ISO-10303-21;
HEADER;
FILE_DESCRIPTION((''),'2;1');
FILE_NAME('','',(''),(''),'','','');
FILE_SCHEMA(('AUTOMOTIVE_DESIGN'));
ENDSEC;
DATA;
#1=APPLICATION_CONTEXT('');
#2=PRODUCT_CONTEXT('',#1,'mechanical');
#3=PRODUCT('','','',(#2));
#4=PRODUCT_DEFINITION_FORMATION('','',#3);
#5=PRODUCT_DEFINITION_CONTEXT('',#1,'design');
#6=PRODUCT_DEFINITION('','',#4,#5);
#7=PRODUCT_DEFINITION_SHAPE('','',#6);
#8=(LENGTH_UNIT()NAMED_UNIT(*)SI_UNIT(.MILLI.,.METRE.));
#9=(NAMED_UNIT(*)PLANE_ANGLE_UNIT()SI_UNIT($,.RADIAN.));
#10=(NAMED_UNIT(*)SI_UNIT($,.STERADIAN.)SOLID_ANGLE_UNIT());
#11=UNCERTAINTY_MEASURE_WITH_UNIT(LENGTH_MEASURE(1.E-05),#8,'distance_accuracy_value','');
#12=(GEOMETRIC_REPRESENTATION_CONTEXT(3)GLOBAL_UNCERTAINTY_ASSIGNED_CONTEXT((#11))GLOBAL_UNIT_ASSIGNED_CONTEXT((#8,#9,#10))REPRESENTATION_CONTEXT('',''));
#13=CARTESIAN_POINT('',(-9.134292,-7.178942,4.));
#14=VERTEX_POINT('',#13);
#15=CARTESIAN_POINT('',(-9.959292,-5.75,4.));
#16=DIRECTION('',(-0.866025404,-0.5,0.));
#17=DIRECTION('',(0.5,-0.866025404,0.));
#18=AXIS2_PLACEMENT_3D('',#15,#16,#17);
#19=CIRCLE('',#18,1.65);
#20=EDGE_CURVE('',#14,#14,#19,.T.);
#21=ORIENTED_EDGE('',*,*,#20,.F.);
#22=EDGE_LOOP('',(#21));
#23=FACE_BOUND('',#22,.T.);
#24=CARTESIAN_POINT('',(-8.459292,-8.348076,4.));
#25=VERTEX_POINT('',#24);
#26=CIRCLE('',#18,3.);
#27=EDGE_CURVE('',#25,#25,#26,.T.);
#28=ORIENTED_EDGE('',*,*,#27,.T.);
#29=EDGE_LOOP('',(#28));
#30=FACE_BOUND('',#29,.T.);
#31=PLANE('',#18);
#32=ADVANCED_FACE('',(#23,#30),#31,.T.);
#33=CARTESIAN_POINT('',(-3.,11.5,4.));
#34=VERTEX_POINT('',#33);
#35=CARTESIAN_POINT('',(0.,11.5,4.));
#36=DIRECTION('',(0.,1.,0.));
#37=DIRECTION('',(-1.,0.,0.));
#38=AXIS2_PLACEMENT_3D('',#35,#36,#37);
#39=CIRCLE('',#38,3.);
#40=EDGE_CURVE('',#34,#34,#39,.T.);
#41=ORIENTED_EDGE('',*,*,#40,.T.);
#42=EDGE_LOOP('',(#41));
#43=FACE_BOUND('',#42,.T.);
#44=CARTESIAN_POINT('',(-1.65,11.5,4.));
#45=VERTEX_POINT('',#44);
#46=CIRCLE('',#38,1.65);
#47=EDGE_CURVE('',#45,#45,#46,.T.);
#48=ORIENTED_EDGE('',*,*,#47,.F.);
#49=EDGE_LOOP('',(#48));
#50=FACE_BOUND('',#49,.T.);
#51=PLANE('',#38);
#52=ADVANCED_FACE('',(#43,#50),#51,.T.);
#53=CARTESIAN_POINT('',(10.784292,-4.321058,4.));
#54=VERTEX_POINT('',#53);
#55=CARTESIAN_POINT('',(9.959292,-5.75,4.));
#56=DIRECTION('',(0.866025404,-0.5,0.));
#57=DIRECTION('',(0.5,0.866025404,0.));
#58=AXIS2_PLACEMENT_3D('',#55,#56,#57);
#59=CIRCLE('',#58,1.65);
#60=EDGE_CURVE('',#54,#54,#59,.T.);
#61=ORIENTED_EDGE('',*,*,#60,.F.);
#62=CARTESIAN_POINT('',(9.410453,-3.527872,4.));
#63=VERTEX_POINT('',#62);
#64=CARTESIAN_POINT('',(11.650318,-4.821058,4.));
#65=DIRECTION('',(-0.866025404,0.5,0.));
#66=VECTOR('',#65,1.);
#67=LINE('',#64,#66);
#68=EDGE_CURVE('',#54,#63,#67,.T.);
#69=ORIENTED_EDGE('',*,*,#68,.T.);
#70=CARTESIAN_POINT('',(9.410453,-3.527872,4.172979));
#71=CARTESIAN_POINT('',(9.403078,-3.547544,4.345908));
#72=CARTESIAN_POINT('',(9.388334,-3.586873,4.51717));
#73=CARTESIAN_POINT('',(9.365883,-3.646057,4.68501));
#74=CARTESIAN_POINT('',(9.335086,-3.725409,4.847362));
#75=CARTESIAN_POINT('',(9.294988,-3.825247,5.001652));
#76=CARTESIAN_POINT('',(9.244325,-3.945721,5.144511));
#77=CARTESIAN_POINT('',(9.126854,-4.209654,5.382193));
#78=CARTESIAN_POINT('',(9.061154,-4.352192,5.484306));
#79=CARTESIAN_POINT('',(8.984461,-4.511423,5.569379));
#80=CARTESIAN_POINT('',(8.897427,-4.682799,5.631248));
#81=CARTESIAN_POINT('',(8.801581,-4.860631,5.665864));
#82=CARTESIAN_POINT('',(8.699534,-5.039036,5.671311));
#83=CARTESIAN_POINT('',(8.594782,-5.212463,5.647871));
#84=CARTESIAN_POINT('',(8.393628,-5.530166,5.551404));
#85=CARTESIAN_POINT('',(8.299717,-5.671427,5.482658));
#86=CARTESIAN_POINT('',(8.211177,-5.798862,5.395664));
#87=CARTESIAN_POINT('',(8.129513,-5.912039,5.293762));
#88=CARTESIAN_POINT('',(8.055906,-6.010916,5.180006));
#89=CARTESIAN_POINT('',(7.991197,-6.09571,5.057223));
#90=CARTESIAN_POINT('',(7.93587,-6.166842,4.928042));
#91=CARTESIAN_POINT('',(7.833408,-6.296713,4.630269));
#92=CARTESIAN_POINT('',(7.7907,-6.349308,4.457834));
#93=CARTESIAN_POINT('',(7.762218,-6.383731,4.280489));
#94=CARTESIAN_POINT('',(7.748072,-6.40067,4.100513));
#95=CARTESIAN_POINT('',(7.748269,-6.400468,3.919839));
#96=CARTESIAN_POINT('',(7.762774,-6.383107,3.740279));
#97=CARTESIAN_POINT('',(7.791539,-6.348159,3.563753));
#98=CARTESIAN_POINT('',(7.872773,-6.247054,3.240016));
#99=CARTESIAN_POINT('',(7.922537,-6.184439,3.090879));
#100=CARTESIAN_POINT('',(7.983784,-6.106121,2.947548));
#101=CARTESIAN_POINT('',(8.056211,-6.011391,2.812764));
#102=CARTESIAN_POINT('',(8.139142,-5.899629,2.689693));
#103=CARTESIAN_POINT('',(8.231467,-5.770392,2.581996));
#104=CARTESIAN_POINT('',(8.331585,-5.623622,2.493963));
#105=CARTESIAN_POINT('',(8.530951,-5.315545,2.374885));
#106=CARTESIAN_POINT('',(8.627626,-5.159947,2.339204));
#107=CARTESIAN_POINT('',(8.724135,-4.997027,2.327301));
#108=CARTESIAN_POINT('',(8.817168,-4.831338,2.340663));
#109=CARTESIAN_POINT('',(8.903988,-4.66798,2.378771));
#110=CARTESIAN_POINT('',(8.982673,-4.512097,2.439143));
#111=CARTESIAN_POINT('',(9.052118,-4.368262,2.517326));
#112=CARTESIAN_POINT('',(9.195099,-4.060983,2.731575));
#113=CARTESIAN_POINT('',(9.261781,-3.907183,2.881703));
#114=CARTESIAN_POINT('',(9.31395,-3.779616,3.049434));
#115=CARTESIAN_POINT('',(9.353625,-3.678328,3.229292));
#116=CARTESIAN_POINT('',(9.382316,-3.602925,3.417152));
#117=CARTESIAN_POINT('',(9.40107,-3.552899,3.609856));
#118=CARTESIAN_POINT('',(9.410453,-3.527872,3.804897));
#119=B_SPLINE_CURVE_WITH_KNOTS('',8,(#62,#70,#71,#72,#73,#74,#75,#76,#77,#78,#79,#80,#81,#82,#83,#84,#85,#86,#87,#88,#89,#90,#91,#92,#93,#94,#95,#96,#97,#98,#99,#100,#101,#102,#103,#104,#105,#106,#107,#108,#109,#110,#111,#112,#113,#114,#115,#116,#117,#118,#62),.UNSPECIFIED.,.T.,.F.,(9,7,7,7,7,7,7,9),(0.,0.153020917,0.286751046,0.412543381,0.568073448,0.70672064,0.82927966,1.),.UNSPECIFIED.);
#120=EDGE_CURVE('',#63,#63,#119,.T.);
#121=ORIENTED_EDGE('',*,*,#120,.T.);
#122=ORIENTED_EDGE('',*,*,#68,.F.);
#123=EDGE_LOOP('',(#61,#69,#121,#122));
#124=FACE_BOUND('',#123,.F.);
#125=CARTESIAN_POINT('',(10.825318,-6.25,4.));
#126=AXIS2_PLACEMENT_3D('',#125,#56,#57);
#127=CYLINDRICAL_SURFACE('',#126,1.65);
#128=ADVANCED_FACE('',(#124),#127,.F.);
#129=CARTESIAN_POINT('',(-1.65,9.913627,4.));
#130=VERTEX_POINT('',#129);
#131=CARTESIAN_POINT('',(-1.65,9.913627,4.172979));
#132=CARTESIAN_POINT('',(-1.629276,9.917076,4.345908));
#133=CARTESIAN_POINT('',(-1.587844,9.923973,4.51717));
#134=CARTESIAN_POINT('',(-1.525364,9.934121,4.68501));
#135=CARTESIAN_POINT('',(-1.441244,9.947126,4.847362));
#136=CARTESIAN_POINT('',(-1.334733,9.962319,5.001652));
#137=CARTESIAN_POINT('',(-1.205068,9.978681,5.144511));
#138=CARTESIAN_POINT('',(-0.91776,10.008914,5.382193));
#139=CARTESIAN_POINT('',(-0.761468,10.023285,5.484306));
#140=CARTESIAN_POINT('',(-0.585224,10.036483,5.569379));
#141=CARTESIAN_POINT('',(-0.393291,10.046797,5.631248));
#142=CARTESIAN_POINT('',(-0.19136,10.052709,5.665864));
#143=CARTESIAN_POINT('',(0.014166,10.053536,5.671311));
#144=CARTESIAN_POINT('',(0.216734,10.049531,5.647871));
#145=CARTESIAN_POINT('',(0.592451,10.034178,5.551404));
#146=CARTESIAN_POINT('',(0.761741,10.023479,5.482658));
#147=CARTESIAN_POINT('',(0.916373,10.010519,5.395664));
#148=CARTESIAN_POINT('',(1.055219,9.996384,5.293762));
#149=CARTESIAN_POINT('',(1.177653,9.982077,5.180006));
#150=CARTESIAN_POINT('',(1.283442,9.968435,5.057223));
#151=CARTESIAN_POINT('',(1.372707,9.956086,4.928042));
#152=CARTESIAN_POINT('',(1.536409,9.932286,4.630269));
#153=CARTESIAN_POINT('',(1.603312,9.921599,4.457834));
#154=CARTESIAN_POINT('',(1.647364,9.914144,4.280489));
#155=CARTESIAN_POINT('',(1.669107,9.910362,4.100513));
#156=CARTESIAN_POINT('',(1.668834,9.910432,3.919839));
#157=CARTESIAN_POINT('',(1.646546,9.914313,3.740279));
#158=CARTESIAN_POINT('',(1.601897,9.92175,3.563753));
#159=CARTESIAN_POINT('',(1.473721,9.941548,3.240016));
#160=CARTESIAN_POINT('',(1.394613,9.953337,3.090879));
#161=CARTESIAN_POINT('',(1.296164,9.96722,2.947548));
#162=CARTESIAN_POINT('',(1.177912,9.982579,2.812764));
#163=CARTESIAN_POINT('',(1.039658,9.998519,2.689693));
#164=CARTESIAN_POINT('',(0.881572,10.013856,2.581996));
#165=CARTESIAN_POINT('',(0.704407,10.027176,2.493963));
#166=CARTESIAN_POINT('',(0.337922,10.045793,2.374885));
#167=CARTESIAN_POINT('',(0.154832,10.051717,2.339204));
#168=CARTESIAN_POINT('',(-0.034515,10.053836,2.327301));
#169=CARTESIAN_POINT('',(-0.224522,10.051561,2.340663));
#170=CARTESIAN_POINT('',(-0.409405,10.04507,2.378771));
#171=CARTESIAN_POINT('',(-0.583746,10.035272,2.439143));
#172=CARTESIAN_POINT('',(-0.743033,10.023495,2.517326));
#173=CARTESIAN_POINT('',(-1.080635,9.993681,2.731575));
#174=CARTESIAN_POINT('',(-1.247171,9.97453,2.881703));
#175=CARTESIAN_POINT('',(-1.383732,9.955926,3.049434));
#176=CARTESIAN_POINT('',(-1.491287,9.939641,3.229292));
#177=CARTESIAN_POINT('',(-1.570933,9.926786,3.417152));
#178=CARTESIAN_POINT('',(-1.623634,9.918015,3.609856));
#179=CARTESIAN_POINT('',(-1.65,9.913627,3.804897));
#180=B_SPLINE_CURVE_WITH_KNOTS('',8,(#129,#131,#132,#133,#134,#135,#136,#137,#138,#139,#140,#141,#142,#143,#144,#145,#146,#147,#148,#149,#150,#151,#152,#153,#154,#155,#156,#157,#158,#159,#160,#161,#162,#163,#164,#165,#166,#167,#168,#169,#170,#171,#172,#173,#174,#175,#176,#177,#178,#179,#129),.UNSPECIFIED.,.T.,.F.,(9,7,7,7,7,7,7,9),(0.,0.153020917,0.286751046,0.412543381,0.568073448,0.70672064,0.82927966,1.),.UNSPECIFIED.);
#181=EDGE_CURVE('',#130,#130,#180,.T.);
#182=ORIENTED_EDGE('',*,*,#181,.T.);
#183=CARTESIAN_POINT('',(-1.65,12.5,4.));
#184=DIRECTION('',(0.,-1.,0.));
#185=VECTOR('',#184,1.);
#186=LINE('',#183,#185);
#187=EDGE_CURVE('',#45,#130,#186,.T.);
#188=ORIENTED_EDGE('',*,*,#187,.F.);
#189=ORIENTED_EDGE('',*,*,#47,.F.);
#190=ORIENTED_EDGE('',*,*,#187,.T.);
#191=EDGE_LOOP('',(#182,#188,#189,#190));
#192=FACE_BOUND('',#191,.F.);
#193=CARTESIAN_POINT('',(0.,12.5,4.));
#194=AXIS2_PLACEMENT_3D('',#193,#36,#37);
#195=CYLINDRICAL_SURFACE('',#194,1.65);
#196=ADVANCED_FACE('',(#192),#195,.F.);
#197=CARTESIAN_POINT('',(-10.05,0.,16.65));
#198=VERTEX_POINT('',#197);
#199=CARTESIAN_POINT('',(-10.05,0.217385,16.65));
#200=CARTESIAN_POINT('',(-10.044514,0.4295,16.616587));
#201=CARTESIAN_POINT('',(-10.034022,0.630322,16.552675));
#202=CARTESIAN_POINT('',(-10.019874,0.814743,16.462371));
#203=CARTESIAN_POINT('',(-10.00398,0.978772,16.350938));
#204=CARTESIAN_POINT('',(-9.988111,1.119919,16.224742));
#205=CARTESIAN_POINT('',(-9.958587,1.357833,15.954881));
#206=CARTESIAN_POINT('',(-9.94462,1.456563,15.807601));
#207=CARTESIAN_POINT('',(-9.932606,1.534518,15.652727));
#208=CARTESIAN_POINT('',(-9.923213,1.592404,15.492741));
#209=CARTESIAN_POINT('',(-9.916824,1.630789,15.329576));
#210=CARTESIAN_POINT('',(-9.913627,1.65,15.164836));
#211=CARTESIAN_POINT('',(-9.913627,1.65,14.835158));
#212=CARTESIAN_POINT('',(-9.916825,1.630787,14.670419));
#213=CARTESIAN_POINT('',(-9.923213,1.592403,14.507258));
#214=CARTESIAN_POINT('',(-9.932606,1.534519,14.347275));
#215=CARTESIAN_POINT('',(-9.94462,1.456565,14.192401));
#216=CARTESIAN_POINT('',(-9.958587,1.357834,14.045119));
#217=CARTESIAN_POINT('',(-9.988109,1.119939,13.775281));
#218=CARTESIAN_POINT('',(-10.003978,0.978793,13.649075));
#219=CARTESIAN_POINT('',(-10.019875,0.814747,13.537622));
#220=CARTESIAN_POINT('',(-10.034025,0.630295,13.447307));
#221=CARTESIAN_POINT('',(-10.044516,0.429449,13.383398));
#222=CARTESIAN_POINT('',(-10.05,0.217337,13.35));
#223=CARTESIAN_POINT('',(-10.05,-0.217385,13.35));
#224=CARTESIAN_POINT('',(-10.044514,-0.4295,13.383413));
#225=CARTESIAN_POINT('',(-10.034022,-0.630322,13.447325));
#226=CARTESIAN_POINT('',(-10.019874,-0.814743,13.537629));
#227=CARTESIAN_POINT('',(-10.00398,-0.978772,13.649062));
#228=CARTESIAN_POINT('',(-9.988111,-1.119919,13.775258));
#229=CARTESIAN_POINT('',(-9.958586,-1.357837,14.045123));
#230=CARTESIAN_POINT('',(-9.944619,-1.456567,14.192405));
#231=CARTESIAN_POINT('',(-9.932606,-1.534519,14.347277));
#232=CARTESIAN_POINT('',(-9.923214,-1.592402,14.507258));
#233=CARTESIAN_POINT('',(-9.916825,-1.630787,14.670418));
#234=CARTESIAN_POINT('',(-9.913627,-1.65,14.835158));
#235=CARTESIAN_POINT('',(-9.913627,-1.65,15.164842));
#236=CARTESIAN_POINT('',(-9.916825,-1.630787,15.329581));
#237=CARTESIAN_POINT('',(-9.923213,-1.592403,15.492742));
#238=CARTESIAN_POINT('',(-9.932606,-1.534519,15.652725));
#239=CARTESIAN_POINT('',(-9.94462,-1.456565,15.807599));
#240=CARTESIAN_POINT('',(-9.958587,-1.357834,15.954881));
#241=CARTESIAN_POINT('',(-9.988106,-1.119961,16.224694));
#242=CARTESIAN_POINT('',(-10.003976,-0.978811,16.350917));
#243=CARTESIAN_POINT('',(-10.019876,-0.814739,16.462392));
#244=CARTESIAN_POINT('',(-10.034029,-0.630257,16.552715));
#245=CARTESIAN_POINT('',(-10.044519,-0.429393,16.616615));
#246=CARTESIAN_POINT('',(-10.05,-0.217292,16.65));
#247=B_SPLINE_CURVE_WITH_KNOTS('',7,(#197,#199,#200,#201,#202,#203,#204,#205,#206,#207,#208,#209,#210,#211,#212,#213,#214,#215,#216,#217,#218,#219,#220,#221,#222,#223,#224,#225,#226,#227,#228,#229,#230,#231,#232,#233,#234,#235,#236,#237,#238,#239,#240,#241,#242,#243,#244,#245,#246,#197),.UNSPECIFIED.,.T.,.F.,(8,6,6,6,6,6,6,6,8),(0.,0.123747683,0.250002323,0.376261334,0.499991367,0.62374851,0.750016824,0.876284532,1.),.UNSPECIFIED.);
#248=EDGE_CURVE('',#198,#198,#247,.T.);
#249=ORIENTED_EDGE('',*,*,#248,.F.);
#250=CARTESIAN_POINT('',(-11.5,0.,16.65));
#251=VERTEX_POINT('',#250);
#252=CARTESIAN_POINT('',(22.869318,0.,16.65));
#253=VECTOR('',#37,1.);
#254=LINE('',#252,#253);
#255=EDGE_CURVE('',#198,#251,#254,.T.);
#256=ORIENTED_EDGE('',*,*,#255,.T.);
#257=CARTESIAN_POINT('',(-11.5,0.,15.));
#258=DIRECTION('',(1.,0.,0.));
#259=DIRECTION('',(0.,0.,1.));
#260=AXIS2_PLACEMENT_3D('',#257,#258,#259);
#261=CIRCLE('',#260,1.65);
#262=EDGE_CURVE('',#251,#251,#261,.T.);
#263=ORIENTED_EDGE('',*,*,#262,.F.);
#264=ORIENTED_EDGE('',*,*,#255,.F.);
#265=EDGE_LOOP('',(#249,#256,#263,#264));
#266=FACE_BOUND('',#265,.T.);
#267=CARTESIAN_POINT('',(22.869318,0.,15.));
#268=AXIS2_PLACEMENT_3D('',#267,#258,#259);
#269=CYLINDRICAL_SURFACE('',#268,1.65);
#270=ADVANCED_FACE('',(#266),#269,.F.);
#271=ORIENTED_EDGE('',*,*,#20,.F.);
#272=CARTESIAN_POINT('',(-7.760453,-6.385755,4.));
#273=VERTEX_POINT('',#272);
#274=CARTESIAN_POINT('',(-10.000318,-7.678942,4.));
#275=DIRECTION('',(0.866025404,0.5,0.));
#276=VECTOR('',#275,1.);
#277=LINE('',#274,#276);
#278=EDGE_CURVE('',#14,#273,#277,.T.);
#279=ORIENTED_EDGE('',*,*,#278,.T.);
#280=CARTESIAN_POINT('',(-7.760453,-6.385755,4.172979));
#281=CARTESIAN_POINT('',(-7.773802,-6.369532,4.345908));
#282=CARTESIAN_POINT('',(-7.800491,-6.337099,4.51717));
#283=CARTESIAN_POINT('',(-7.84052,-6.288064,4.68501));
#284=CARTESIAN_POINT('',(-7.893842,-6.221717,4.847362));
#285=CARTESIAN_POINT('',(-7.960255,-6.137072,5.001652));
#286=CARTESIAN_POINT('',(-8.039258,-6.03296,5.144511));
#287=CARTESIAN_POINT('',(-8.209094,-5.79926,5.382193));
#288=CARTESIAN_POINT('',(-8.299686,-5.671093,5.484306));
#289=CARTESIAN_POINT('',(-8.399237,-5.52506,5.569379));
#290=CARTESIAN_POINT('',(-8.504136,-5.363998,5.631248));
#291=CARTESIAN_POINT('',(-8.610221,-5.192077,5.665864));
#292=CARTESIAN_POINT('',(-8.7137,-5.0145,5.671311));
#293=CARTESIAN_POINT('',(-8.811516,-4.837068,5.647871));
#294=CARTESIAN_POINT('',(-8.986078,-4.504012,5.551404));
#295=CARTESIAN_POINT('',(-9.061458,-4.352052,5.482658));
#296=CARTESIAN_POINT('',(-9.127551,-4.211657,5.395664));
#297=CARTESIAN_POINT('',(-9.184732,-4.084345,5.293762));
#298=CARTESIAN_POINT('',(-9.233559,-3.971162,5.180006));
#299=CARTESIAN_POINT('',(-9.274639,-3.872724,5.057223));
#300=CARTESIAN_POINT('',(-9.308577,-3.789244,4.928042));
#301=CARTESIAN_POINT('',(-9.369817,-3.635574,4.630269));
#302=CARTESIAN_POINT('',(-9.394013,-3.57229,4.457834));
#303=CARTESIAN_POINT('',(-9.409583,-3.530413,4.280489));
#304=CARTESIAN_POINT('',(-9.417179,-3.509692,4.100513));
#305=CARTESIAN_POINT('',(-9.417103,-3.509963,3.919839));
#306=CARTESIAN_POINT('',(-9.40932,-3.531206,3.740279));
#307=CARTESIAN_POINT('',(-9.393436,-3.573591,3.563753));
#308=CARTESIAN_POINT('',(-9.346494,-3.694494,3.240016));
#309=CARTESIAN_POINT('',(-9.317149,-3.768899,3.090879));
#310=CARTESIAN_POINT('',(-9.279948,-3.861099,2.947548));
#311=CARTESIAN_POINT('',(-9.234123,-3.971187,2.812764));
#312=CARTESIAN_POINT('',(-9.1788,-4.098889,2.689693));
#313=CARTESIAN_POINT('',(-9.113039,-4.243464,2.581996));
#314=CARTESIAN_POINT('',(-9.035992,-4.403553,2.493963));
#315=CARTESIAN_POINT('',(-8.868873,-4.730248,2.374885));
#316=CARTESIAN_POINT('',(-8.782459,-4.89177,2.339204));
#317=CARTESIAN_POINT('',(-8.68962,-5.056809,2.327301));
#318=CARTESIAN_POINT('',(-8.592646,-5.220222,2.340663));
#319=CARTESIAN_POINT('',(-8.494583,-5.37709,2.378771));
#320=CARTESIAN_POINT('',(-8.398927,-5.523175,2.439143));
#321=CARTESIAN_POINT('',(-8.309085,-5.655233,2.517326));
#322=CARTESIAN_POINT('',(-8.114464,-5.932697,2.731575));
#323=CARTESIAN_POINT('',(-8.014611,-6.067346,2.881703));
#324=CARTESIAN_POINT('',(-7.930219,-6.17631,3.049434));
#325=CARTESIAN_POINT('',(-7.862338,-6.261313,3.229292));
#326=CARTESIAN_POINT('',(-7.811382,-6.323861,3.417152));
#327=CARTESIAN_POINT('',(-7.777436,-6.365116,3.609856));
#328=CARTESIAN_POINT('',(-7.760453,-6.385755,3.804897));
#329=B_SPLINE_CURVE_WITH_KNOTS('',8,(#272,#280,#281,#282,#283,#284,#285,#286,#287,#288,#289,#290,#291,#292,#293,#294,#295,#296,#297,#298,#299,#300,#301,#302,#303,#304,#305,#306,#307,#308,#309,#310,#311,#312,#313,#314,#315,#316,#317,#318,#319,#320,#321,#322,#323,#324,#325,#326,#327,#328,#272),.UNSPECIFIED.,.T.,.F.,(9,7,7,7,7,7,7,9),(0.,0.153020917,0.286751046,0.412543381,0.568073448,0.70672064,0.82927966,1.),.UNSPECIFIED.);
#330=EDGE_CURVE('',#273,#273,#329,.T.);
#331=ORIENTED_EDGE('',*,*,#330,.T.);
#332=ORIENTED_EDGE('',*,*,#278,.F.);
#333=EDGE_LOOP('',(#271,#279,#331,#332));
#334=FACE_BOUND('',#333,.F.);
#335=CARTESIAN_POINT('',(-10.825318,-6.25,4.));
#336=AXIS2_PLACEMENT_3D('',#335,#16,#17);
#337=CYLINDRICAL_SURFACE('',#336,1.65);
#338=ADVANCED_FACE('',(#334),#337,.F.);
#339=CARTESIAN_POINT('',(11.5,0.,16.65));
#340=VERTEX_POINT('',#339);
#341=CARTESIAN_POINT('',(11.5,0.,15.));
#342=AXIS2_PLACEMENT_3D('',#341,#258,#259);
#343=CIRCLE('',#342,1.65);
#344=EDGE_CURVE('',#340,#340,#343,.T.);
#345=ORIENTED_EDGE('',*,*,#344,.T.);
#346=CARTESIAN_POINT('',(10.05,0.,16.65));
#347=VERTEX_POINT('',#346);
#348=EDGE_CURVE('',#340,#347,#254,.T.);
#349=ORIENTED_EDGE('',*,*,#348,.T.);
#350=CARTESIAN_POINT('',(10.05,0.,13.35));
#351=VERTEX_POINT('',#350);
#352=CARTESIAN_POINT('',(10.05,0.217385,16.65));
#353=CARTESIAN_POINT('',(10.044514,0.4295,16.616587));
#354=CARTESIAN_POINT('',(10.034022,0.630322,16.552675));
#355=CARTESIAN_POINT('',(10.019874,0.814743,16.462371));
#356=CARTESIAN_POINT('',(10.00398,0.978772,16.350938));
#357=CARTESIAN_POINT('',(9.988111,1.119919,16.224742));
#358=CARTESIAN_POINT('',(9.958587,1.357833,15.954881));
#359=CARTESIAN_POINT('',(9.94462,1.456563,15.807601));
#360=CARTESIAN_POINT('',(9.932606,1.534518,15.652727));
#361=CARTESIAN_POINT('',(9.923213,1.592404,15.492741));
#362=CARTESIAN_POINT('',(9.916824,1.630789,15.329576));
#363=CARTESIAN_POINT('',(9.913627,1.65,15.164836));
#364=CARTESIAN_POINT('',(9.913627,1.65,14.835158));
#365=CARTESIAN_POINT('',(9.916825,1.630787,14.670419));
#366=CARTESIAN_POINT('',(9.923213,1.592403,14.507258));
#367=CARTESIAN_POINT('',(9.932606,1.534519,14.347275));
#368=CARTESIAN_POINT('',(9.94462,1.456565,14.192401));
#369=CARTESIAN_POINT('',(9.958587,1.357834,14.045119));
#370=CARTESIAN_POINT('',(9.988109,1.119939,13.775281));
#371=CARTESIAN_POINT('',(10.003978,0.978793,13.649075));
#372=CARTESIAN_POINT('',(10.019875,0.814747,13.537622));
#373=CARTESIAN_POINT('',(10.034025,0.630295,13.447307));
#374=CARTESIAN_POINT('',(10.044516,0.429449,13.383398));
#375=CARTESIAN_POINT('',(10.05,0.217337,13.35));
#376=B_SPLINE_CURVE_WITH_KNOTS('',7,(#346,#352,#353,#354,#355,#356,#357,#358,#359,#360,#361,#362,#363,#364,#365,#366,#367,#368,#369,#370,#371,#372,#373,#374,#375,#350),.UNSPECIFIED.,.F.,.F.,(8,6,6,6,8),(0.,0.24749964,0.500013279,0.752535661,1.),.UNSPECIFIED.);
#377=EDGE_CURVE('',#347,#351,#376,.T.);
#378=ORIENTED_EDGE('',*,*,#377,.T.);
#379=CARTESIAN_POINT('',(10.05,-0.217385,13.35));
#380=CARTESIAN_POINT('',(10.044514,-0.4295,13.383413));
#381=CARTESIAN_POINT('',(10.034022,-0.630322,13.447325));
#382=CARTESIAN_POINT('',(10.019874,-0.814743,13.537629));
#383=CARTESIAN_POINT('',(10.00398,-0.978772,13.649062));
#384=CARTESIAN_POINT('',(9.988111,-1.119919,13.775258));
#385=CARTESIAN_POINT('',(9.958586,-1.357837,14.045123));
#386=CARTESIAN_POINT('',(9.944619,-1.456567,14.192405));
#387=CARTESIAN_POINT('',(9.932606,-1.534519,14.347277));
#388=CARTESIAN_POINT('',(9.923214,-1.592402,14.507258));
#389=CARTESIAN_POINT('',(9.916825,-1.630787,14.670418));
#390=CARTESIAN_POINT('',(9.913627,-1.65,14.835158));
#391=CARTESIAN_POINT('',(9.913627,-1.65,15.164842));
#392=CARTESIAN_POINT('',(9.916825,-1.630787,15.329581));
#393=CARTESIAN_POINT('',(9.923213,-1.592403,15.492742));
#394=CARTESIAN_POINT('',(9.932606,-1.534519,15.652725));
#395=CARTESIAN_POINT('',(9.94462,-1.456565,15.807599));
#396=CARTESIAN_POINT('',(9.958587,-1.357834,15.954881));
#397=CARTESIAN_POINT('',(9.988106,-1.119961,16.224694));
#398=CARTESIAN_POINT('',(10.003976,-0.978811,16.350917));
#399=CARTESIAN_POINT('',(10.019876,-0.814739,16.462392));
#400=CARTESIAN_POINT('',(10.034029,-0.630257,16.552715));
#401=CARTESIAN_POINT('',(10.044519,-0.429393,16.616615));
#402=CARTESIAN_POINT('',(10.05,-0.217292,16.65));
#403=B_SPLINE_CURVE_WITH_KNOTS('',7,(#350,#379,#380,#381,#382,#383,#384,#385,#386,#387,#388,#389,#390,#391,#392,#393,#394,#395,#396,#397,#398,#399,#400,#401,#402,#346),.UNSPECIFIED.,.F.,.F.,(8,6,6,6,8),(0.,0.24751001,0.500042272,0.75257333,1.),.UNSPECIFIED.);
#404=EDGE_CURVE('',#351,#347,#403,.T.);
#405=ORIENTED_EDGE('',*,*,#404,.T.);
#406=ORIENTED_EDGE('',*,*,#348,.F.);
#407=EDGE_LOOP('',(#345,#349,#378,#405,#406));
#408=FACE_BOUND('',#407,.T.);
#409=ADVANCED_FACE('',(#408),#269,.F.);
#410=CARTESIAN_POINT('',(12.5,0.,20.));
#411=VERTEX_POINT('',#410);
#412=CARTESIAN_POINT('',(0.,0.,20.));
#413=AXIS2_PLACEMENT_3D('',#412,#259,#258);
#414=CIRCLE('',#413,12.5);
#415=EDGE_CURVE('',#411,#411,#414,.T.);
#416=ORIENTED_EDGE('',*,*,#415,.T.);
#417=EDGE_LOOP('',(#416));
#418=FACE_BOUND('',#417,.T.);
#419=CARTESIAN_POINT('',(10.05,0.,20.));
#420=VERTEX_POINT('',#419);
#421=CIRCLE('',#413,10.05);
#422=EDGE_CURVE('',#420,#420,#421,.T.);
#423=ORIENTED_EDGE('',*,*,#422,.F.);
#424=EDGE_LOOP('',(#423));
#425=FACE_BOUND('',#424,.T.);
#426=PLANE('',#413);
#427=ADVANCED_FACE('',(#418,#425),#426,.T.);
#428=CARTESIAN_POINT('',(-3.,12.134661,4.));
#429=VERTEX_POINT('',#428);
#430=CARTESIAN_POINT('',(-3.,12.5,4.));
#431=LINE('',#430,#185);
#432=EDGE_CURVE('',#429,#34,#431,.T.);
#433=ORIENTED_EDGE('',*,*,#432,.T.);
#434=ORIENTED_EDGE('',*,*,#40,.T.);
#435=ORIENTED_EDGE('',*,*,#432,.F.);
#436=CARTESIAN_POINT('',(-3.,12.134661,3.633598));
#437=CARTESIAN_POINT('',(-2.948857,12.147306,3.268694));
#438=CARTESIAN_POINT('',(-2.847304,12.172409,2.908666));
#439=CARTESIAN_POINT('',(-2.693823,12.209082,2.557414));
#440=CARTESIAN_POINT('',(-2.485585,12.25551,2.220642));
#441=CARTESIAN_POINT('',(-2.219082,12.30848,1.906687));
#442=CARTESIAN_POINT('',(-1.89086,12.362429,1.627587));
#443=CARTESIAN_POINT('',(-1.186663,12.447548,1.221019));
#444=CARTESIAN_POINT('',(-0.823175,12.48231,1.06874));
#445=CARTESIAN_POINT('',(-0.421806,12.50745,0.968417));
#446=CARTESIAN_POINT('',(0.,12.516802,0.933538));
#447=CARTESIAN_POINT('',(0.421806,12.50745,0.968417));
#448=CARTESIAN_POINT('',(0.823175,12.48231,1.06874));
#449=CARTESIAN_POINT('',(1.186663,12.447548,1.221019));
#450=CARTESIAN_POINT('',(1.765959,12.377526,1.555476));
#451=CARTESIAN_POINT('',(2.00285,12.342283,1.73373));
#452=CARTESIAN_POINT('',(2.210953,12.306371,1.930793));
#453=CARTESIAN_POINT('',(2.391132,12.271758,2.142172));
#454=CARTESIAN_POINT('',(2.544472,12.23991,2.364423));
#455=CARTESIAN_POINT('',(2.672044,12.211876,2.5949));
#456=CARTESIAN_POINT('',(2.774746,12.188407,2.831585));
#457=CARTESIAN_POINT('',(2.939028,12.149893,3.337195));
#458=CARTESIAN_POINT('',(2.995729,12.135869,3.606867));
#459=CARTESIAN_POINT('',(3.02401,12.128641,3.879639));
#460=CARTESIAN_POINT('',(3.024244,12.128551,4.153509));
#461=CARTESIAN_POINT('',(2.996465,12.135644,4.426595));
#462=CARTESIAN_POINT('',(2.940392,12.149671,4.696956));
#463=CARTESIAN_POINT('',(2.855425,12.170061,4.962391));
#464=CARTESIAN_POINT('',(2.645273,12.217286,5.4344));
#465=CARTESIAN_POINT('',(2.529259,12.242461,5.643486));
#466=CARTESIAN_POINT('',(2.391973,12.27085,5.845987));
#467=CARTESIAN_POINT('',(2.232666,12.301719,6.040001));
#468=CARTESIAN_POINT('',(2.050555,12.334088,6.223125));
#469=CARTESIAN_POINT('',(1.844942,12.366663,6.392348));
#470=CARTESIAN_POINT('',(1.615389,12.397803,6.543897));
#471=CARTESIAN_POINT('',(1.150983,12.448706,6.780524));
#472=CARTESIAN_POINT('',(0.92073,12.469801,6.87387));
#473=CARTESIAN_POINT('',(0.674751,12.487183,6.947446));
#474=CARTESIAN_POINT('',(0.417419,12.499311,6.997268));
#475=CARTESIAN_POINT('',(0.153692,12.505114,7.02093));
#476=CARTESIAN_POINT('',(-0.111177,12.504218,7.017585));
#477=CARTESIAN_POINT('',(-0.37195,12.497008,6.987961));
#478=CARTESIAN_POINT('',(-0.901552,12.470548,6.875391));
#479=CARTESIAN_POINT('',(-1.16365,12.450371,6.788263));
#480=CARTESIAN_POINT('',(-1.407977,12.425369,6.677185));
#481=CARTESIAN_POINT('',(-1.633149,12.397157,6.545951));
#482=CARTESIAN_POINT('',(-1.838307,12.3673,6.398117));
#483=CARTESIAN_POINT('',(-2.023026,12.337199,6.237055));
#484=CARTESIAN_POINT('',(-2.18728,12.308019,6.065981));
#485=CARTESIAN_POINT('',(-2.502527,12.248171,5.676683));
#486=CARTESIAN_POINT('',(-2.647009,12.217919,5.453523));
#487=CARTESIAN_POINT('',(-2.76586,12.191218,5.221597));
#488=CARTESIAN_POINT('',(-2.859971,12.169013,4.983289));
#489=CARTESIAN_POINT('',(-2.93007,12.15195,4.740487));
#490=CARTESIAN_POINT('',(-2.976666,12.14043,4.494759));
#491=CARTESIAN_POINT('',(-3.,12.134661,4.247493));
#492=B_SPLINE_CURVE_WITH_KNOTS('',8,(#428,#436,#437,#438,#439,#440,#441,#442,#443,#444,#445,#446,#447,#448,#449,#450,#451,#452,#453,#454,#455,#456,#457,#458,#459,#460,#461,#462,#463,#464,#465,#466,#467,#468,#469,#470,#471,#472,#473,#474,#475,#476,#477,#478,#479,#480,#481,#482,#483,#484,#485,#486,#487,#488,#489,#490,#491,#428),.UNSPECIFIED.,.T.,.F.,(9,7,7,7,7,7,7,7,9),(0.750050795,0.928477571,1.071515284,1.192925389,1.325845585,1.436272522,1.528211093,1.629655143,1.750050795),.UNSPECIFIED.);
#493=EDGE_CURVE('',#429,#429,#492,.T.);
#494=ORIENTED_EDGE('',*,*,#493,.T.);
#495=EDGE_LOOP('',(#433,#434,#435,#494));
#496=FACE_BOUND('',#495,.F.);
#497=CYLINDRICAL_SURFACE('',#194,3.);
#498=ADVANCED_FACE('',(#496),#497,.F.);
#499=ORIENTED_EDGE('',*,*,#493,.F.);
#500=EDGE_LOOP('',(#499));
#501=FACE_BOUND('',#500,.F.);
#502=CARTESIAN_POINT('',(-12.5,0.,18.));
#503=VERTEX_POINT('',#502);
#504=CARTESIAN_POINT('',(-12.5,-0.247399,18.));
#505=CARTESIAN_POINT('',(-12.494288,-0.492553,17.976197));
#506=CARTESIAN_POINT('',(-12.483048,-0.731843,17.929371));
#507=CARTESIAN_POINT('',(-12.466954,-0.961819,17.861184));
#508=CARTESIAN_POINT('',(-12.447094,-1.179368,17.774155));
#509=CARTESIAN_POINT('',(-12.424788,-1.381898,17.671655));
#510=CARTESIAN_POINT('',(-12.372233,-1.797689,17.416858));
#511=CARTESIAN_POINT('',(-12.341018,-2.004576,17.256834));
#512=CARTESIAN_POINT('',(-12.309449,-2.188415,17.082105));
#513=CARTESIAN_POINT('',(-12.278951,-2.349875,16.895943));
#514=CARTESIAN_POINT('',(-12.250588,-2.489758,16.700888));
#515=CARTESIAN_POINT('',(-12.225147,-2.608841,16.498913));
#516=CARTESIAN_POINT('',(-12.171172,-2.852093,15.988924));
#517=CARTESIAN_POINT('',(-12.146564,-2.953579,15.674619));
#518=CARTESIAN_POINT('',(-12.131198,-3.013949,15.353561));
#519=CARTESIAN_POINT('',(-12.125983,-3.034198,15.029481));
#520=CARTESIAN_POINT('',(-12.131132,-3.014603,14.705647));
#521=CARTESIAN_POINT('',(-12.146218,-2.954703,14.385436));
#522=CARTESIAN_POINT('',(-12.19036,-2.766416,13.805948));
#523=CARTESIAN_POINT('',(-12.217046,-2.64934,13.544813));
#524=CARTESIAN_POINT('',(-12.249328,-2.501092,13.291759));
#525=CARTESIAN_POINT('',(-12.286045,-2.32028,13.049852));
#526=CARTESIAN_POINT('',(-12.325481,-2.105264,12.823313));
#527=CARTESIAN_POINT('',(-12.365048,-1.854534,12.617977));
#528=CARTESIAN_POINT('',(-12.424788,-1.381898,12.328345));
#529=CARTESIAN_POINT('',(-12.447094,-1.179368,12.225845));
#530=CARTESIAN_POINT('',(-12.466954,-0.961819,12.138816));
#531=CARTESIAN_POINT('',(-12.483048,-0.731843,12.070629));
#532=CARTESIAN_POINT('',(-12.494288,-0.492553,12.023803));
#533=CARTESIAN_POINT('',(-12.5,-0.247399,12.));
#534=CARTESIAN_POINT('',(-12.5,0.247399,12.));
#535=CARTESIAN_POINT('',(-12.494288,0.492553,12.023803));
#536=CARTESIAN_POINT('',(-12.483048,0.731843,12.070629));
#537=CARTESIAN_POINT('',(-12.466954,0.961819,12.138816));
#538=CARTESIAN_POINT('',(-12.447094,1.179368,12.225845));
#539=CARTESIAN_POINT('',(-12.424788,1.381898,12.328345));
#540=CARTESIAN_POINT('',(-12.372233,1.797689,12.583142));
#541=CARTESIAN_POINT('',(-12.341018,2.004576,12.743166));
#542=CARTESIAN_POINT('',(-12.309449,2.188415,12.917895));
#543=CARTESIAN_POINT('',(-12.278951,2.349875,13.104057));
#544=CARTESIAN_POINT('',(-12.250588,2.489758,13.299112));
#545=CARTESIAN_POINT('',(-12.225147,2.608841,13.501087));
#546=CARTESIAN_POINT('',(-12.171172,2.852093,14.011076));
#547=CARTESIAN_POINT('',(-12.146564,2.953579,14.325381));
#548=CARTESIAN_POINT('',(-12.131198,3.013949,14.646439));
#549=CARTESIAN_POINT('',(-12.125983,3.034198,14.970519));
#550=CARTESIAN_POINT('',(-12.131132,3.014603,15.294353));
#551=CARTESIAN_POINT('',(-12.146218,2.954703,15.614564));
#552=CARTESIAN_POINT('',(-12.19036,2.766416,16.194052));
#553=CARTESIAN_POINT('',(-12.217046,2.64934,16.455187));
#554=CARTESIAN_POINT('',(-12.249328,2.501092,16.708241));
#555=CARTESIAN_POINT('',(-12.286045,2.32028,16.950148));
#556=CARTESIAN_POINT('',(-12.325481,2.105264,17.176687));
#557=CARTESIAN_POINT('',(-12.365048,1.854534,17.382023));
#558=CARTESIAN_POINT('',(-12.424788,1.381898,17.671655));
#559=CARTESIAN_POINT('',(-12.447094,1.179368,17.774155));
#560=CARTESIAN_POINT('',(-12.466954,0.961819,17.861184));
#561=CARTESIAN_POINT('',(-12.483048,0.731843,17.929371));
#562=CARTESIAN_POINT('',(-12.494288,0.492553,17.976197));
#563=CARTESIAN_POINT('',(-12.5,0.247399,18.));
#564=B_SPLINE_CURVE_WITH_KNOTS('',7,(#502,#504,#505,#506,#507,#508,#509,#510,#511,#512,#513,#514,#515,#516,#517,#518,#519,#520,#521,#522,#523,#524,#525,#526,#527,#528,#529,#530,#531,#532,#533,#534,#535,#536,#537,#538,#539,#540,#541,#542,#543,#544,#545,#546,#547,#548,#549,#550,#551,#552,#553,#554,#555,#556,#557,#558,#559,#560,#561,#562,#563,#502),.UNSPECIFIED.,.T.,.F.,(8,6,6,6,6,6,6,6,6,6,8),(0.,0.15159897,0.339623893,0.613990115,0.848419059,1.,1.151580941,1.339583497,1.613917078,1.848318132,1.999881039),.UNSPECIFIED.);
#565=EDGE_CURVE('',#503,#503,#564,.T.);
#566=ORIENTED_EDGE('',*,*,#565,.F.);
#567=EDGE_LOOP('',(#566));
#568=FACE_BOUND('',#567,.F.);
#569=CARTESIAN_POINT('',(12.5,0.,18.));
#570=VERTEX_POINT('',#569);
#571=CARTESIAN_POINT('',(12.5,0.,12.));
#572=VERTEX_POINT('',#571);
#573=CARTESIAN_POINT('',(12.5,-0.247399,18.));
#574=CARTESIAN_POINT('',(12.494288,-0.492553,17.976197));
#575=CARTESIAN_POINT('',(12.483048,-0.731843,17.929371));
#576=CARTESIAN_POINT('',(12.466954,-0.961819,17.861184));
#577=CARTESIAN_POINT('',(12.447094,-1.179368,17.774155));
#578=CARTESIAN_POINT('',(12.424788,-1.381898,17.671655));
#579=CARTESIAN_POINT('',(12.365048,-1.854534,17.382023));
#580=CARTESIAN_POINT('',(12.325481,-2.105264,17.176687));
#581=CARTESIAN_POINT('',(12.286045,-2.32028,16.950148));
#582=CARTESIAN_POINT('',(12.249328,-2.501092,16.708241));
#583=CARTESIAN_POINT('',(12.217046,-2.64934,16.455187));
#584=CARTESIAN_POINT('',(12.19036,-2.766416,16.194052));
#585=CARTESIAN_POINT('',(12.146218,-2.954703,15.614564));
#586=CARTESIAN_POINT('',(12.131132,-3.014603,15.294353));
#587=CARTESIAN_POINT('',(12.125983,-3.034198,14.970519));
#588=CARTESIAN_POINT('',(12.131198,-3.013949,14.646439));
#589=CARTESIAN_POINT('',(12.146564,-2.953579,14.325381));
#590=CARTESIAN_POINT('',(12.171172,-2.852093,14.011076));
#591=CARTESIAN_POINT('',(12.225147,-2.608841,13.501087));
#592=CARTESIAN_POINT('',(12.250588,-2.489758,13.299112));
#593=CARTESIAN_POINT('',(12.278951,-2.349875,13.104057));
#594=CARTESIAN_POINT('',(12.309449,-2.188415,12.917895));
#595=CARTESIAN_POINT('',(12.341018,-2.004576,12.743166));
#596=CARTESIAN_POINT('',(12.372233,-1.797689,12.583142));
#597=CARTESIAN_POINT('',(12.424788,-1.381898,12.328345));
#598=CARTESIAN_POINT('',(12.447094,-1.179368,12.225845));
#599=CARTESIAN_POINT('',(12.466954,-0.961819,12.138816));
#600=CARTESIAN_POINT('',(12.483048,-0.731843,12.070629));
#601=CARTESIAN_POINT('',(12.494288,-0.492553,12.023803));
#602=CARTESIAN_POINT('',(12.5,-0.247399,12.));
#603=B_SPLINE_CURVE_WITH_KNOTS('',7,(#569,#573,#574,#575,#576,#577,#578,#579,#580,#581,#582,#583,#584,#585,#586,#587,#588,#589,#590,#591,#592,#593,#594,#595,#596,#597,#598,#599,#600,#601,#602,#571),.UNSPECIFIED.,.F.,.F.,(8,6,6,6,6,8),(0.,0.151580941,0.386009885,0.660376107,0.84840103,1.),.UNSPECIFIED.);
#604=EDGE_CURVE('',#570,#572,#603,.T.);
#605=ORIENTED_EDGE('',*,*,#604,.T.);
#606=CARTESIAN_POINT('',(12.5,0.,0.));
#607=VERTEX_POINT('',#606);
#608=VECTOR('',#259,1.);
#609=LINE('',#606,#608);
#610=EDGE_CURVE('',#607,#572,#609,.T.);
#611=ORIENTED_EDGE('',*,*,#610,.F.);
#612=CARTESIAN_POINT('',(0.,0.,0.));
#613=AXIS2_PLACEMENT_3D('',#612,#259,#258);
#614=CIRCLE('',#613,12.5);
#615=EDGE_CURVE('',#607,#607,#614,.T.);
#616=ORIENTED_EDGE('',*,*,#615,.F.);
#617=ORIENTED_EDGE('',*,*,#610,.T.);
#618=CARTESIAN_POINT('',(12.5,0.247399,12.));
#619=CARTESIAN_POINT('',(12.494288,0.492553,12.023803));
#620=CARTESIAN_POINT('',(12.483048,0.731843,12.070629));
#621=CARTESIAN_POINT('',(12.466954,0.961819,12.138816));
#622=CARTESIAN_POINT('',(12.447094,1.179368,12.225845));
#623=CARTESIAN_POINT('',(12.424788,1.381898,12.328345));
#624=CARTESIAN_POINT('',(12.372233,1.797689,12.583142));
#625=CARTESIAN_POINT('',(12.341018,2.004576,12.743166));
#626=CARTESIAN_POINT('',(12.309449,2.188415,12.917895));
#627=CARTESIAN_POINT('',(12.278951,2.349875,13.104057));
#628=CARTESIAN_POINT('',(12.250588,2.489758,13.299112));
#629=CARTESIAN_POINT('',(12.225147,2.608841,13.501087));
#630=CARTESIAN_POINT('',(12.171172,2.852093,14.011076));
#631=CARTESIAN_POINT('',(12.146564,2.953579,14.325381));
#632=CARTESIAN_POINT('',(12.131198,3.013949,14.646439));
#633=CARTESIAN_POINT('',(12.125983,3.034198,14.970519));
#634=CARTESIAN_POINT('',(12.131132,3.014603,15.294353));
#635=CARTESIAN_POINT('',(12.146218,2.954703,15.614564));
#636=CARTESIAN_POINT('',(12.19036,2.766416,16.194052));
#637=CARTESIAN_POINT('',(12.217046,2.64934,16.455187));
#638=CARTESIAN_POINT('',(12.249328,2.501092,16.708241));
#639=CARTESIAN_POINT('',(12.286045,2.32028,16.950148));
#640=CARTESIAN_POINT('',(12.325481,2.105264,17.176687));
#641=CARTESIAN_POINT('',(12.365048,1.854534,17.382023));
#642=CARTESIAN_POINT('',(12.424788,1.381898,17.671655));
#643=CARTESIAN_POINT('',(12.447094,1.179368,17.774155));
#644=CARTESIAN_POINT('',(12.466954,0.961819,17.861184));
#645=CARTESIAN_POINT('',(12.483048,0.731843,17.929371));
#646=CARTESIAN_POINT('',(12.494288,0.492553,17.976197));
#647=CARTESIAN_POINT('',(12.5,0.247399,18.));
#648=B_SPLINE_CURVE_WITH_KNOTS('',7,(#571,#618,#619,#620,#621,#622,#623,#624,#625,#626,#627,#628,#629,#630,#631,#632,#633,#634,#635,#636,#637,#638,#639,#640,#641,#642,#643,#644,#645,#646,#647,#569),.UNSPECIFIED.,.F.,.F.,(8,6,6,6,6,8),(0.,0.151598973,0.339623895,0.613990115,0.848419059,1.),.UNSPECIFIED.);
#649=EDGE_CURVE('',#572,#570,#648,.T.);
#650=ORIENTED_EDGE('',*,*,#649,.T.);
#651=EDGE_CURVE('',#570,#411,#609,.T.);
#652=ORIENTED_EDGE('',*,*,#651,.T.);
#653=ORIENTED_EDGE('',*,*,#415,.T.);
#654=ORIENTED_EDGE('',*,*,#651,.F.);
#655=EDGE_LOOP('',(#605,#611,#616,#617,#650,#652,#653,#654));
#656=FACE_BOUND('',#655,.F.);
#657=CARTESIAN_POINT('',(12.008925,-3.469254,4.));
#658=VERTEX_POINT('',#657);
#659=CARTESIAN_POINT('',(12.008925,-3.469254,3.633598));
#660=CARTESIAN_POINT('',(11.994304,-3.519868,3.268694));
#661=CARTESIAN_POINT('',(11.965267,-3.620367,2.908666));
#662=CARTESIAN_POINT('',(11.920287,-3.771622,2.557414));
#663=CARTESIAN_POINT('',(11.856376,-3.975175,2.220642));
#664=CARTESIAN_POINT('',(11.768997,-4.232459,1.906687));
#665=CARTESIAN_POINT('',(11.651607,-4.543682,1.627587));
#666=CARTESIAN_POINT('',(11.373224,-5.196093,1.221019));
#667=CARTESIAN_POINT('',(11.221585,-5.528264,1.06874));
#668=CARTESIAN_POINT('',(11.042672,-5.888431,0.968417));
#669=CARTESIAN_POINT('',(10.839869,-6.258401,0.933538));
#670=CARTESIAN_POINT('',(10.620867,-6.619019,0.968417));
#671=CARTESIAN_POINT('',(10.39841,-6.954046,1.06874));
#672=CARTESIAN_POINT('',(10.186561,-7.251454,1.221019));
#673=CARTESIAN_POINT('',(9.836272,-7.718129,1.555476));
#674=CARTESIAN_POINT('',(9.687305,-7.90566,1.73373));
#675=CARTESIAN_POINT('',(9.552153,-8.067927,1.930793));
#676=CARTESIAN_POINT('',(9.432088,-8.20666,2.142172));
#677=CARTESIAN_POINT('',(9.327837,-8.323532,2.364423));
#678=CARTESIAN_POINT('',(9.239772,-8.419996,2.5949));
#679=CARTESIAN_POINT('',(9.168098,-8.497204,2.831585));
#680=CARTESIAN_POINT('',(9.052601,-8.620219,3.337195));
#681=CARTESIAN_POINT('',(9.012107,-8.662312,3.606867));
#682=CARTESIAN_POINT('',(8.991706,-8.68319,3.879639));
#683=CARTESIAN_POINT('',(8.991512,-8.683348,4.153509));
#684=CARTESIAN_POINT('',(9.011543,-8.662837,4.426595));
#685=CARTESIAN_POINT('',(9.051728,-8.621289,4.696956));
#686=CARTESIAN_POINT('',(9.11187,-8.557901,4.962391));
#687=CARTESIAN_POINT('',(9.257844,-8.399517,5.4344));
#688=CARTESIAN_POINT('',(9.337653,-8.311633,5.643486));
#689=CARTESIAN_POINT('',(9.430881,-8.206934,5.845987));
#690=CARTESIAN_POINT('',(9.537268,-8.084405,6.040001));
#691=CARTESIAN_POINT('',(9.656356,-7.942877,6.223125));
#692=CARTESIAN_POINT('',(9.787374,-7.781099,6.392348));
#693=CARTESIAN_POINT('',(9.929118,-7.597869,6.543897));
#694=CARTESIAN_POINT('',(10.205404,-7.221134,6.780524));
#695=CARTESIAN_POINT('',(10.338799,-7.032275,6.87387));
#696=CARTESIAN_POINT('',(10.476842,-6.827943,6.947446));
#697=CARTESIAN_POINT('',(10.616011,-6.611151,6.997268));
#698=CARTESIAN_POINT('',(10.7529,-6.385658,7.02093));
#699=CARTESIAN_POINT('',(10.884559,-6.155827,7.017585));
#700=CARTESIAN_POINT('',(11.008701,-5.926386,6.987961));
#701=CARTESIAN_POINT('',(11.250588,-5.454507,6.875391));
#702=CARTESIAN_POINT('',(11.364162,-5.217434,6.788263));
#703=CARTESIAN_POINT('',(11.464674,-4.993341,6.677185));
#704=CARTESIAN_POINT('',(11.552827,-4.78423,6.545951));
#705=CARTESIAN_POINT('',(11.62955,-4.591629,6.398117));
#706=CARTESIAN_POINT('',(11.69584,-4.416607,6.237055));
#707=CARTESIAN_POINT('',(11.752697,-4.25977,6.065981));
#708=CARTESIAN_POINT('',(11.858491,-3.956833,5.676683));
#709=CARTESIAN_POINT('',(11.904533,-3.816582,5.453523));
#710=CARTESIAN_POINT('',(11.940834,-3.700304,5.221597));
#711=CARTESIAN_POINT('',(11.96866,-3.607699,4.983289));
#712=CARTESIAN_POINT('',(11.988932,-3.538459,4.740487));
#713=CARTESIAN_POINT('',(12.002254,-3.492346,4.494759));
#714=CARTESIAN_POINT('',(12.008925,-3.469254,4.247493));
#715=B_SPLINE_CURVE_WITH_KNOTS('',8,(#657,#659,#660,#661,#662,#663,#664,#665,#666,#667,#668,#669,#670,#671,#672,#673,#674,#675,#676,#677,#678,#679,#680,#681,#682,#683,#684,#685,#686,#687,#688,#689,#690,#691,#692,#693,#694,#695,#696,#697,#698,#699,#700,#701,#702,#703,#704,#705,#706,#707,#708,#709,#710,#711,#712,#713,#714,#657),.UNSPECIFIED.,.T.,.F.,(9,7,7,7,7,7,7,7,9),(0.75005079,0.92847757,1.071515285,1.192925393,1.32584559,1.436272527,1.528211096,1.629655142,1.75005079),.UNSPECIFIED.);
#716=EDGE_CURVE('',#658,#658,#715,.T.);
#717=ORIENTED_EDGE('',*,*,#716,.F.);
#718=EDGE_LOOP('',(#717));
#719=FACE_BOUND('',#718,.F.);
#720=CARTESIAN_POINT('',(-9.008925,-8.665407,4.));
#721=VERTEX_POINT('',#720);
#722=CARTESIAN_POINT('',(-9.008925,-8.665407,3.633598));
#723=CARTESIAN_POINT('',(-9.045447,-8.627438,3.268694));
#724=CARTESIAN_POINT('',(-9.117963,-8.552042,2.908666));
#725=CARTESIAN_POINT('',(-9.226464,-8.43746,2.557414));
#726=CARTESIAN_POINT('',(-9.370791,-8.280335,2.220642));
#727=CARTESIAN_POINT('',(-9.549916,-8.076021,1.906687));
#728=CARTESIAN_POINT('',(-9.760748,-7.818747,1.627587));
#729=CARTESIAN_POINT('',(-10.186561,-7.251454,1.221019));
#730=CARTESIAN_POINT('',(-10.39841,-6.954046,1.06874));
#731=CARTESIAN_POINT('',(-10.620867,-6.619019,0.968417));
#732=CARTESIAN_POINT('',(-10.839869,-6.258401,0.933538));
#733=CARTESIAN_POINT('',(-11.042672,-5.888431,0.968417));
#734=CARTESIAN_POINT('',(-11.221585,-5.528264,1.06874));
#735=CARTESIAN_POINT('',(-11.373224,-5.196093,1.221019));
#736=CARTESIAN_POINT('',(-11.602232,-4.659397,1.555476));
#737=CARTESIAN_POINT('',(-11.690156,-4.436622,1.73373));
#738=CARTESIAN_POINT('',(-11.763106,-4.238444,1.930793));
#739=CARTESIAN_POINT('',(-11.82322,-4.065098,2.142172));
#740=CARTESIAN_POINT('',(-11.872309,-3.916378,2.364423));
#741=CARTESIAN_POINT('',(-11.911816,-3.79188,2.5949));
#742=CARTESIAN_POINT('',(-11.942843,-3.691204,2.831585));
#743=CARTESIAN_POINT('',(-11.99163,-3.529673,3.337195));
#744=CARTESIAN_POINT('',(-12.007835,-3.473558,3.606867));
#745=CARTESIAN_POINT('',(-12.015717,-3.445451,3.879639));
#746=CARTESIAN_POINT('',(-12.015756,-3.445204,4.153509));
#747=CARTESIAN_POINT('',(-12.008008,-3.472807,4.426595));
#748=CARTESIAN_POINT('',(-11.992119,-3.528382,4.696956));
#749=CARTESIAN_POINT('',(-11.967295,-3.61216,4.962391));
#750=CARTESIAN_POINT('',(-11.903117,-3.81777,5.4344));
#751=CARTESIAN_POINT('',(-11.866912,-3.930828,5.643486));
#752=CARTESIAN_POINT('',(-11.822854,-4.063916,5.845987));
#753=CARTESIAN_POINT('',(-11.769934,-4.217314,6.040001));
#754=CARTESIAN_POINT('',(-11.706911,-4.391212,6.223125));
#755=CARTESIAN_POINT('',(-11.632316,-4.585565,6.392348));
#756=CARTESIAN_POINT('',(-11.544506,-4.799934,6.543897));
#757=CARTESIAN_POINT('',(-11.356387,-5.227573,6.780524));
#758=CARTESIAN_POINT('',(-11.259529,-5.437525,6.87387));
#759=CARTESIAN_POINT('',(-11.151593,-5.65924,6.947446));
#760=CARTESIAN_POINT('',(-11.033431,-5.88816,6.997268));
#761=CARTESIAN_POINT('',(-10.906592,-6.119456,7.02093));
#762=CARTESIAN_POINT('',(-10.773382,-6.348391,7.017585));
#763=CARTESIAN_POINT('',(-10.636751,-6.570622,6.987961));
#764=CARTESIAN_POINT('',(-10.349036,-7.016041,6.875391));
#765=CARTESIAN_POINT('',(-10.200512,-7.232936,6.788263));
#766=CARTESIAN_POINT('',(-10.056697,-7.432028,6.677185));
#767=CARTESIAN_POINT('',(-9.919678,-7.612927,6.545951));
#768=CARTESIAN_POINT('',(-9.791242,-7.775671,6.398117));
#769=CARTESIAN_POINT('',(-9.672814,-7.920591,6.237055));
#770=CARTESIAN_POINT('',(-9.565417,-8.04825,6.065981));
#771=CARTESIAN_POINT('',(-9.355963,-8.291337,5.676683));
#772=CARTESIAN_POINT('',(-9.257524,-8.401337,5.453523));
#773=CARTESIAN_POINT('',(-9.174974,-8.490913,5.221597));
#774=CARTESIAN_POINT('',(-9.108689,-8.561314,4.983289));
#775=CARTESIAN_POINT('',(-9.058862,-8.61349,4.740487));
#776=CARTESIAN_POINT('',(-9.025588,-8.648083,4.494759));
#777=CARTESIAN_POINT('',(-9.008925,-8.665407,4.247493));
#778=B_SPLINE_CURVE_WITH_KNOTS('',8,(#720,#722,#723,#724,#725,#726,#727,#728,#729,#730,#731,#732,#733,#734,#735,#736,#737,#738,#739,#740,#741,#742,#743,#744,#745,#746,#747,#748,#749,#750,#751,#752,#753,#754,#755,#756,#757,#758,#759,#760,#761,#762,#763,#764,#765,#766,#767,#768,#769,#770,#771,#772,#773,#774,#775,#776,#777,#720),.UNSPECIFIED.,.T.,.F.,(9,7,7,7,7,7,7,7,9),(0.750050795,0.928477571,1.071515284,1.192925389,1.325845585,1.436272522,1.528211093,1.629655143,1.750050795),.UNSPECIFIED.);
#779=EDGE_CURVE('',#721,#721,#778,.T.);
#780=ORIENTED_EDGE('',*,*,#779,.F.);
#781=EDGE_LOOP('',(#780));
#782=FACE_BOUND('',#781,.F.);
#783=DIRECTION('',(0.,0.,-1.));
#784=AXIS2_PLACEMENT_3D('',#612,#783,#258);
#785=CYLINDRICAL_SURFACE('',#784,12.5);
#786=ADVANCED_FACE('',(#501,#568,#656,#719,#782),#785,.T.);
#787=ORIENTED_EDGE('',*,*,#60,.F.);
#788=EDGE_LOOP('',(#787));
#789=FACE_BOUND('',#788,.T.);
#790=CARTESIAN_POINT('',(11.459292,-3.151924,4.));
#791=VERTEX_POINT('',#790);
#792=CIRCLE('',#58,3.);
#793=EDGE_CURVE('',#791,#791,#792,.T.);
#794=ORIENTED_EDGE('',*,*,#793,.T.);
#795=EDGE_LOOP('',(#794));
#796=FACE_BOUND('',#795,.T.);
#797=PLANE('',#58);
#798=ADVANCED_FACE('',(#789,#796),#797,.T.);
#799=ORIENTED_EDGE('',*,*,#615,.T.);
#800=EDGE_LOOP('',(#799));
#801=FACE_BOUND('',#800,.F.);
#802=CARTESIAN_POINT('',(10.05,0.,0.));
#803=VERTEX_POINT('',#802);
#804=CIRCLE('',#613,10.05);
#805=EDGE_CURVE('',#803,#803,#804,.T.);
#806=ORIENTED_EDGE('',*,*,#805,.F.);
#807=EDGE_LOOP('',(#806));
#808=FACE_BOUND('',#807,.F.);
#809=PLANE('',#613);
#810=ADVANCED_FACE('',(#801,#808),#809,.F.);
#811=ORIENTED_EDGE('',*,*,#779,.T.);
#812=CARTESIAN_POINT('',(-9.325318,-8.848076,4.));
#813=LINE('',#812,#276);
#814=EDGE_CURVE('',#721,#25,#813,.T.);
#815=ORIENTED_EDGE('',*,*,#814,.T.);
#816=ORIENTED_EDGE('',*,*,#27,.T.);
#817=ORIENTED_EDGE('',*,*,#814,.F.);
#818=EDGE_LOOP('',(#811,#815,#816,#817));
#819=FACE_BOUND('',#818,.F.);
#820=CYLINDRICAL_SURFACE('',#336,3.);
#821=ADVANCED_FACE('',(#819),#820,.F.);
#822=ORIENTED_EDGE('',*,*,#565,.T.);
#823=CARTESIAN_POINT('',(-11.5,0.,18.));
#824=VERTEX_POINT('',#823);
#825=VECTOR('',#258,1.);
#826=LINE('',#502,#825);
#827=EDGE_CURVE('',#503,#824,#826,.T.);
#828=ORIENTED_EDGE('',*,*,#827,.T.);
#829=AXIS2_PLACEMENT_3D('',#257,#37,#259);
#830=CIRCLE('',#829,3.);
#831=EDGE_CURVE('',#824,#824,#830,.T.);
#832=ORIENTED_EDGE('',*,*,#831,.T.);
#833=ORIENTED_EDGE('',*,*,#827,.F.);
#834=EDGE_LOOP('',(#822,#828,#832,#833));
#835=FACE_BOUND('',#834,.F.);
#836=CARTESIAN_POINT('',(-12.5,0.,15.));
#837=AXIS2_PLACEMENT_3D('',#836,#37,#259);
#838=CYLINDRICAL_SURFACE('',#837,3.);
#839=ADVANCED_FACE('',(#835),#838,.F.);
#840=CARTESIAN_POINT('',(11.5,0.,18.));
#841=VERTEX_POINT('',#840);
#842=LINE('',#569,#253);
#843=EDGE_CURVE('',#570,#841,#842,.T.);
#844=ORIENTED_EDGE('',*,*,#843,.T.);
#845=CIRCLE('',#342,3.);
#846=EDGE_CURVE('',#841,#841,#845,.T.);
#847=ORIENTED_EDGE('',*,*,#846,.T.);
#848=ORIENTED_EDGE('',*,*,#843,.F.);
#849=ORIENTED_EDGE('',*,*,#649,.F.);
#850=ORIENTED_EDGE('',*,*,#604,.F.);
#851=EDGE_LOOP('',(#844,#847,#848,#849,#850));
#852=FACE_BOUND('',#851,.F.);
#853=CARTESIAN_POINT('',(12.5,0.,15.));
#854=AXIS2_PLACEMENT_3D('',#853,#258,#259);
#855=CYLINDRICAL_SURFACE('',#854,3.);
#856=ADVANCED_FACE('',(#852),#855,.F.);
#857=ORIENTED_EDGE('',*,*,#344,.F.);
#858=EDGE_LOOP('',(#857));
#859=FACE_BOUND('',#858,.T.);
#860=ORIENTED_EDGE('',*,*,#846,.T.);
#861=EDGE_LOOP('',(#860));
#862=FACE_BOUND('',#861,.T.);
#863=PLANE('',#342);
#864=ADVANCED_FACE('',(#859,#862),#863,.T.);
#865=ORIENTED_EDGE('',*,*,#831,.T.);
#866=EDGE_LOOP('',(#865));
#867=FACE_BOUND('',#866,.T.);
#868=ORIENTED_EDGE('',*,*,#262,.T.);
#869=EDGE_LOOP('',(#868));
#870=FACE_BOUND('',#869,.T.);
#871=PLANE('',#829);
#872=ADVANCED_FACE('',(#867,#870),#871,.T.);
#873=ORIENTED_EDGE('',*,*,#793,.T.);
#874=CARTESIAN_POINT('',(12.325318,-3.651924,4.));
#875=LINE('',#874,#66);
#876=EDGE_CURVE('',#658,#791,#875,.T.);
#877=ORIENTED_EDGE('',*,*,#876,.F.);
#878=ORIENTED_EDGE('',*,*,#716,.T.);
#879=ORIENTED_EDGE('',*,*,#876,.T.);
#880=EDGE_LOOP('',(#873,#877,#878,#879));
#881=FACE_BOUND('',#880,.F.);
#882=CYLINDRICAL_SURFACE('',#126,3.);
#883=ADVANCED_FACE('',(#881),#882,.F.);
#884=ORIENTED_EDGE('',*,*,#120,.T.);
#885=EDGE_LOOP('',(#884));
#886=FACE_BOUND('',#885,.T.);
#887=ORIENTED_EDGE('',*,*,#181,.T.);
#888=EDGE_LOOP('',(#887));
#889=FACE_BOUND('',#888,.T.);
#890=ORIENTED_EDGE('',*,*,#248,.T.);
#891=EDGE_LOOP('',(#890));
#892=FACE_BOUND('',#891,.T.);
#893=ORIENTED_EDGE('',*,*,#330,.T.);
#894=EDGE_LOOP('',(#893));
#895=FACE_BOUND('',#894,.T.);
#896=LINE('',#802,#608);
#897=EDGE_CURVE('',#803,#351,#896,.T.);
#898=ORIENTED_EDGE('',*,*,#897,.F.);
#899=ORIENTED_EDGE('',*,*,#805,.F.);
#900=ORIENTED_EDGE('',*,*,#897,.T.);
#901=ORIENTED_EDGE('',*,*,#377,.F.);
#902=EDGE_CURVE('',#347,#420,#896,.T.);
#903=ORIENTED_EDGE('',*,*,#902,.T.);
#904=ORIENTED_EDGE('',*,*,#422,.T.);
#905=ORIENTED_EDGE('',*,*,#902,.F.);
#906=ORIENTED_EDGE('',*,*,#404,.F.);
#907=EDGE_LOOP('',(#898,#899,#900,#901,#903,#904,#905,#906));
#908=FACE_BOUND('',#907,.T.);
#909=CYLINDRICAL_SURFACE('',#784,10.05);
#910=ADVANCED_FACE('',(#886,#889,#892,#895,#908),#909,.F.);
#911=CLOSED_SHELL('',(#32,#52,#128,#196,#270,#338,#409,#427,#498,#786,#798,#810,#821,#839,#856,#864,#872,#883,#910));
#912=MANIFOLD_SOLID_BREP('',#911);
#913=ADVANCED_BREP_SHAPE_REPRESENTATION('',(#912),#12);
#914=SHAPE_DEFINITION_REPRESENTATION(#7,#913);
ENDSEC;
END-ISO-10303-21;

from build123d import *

# Parameters (mm, degrees)
SKETCH1_R               = 12.5
SKETCH1_R_2             = 10.05
BOSS_EXTRUDE1_DEPTH     = 20
SKETCH3_R               = 1.65
CUT_EXTRUDE1_DEPTH      = 4
CIRPATTERN1_COUNT       = 3
SKETCH5_R               = 3
CUT_EXTRUDE3_DEPTH      = 1
CIRPATTERN2_COUNT       = 3
CUT_EXTRUDE5_DEPTH      = 35.369317885
CUT_EXTRUDE5_DEPTH_BACK = 35.369317885
SKETCH7_R               = 1.65
SKETCH8_R               = 3
CUT_EXTRUDE6_DEPTH      = 1
CIRPATTERN6_COUNT       = 2


with BuildPart() as part:
    # Sketch1 → Boss-Extrude1 (new body)
    with BuildSketch(Plane.XY):
        Circle(SKETCH1_R)
        Circle(SKETCH1_R_2, mode=Mode.SUBTRACT)
    extrude(amount=BOSS_EXTRUDE1_DEPTH)

    # Sketch3 → Cut-Extrude1 (cut)
    with BuildSketch(Plane(origin=(-10.825317547, -6.25, 0), x_dir=(0, 0, 1), z_dir=(-0.8660254037844362, -0.5000000000000046, 0))):
        with Locations(Location((4, 0, 0), (0, 0, 270))):
            Circle(SKETCH3_R)
    cut_extrude1 = extrude(amount=-CUT_EXTRUDE1_DEPTH, mode=Mode.SUBTRACT)

    # CirPattern1: Cut-Extrude1 ×3 about axis
    cirpattern1_axis = Axis((0, 0, 0), (0, 0, 1))
    for i in range(1, CIRPATTERN1_COUNT):
        add(cut_extrude1.rotate(cirpattern1_axis, i * 360 / CIRPATTERN1_COUNT), mode=Mode.SUBTRACT)

    # Sketch5 → Cut-Extrude3 (cut)
    with BuildSketch(Plane(origin=(-10.825317547, -6.25, 0), x_dir=(0, 0, 1), z_dir=(-0.8660254037844362, -0.5000000000000046, 0))):
        with Locations(Location((4, 0, 0), (0, 0, 270))):
            Circle(SKETCH5_R)
    cut_extrude3 = extrude(amount=-CUT_EXTRUDE3_DEPTH, mode=Mode.SUBTRACT)

    # CirPattern2: Cut-Extrude3 ×3 about axis
    cirpattern2_axis = Axis((0, 0, 0), (0, 0, 1))
    for i in range(1, CIRPATTERN2_COUNT):
        add(cut_extrude3.rotate(cirpattern2_axis, i * 360 / CIRPATTERN2_COUNT), mode=Mode.SUBTRACT)

    # Sketch7 → Cut-Extrude5 (cut, two sides: drawn at the far end of the back side and taken through both)
    with BuildSketch(Plane.ZY.offset(12.5).offset(-CUT_EXTRUDE5_DEPTH_BACK)):
        with Locations((15, 0)):
            Circle(SKETCH7_R)
    extrude(amount=CUT_EXTRUDE5_DEPTH + CUT_EXTRUDE5_DEPTH_BACK, mode=Mode.SUBTRACT)

    # Sketch8 → Cut-Extrude6 (cut)
    with BuildSketch(Plane.ZY.offset(12.5)):
        with Locations((15, 0)):
            Circle(SKETCH8_R)
    cut_extrude6 = extrude(amount=-CUT_EXTRUDE6_DEPTH, mode=Mode.SUBTRACT)

    # CirPattern6: Cut-Extrude6 ×2 about axis
    cirpattern6_axis = Axis((0, 0, 20), (0, 0, -1))
    for i in range(1, CIRPATTERN6_COUNT):
        add(cut_extrude6.rotate(cirpattern6_axis, i * 360 / CIRPATTERN6_COUNT), mode=Mode.SUBTRACT)


solid = part.part
